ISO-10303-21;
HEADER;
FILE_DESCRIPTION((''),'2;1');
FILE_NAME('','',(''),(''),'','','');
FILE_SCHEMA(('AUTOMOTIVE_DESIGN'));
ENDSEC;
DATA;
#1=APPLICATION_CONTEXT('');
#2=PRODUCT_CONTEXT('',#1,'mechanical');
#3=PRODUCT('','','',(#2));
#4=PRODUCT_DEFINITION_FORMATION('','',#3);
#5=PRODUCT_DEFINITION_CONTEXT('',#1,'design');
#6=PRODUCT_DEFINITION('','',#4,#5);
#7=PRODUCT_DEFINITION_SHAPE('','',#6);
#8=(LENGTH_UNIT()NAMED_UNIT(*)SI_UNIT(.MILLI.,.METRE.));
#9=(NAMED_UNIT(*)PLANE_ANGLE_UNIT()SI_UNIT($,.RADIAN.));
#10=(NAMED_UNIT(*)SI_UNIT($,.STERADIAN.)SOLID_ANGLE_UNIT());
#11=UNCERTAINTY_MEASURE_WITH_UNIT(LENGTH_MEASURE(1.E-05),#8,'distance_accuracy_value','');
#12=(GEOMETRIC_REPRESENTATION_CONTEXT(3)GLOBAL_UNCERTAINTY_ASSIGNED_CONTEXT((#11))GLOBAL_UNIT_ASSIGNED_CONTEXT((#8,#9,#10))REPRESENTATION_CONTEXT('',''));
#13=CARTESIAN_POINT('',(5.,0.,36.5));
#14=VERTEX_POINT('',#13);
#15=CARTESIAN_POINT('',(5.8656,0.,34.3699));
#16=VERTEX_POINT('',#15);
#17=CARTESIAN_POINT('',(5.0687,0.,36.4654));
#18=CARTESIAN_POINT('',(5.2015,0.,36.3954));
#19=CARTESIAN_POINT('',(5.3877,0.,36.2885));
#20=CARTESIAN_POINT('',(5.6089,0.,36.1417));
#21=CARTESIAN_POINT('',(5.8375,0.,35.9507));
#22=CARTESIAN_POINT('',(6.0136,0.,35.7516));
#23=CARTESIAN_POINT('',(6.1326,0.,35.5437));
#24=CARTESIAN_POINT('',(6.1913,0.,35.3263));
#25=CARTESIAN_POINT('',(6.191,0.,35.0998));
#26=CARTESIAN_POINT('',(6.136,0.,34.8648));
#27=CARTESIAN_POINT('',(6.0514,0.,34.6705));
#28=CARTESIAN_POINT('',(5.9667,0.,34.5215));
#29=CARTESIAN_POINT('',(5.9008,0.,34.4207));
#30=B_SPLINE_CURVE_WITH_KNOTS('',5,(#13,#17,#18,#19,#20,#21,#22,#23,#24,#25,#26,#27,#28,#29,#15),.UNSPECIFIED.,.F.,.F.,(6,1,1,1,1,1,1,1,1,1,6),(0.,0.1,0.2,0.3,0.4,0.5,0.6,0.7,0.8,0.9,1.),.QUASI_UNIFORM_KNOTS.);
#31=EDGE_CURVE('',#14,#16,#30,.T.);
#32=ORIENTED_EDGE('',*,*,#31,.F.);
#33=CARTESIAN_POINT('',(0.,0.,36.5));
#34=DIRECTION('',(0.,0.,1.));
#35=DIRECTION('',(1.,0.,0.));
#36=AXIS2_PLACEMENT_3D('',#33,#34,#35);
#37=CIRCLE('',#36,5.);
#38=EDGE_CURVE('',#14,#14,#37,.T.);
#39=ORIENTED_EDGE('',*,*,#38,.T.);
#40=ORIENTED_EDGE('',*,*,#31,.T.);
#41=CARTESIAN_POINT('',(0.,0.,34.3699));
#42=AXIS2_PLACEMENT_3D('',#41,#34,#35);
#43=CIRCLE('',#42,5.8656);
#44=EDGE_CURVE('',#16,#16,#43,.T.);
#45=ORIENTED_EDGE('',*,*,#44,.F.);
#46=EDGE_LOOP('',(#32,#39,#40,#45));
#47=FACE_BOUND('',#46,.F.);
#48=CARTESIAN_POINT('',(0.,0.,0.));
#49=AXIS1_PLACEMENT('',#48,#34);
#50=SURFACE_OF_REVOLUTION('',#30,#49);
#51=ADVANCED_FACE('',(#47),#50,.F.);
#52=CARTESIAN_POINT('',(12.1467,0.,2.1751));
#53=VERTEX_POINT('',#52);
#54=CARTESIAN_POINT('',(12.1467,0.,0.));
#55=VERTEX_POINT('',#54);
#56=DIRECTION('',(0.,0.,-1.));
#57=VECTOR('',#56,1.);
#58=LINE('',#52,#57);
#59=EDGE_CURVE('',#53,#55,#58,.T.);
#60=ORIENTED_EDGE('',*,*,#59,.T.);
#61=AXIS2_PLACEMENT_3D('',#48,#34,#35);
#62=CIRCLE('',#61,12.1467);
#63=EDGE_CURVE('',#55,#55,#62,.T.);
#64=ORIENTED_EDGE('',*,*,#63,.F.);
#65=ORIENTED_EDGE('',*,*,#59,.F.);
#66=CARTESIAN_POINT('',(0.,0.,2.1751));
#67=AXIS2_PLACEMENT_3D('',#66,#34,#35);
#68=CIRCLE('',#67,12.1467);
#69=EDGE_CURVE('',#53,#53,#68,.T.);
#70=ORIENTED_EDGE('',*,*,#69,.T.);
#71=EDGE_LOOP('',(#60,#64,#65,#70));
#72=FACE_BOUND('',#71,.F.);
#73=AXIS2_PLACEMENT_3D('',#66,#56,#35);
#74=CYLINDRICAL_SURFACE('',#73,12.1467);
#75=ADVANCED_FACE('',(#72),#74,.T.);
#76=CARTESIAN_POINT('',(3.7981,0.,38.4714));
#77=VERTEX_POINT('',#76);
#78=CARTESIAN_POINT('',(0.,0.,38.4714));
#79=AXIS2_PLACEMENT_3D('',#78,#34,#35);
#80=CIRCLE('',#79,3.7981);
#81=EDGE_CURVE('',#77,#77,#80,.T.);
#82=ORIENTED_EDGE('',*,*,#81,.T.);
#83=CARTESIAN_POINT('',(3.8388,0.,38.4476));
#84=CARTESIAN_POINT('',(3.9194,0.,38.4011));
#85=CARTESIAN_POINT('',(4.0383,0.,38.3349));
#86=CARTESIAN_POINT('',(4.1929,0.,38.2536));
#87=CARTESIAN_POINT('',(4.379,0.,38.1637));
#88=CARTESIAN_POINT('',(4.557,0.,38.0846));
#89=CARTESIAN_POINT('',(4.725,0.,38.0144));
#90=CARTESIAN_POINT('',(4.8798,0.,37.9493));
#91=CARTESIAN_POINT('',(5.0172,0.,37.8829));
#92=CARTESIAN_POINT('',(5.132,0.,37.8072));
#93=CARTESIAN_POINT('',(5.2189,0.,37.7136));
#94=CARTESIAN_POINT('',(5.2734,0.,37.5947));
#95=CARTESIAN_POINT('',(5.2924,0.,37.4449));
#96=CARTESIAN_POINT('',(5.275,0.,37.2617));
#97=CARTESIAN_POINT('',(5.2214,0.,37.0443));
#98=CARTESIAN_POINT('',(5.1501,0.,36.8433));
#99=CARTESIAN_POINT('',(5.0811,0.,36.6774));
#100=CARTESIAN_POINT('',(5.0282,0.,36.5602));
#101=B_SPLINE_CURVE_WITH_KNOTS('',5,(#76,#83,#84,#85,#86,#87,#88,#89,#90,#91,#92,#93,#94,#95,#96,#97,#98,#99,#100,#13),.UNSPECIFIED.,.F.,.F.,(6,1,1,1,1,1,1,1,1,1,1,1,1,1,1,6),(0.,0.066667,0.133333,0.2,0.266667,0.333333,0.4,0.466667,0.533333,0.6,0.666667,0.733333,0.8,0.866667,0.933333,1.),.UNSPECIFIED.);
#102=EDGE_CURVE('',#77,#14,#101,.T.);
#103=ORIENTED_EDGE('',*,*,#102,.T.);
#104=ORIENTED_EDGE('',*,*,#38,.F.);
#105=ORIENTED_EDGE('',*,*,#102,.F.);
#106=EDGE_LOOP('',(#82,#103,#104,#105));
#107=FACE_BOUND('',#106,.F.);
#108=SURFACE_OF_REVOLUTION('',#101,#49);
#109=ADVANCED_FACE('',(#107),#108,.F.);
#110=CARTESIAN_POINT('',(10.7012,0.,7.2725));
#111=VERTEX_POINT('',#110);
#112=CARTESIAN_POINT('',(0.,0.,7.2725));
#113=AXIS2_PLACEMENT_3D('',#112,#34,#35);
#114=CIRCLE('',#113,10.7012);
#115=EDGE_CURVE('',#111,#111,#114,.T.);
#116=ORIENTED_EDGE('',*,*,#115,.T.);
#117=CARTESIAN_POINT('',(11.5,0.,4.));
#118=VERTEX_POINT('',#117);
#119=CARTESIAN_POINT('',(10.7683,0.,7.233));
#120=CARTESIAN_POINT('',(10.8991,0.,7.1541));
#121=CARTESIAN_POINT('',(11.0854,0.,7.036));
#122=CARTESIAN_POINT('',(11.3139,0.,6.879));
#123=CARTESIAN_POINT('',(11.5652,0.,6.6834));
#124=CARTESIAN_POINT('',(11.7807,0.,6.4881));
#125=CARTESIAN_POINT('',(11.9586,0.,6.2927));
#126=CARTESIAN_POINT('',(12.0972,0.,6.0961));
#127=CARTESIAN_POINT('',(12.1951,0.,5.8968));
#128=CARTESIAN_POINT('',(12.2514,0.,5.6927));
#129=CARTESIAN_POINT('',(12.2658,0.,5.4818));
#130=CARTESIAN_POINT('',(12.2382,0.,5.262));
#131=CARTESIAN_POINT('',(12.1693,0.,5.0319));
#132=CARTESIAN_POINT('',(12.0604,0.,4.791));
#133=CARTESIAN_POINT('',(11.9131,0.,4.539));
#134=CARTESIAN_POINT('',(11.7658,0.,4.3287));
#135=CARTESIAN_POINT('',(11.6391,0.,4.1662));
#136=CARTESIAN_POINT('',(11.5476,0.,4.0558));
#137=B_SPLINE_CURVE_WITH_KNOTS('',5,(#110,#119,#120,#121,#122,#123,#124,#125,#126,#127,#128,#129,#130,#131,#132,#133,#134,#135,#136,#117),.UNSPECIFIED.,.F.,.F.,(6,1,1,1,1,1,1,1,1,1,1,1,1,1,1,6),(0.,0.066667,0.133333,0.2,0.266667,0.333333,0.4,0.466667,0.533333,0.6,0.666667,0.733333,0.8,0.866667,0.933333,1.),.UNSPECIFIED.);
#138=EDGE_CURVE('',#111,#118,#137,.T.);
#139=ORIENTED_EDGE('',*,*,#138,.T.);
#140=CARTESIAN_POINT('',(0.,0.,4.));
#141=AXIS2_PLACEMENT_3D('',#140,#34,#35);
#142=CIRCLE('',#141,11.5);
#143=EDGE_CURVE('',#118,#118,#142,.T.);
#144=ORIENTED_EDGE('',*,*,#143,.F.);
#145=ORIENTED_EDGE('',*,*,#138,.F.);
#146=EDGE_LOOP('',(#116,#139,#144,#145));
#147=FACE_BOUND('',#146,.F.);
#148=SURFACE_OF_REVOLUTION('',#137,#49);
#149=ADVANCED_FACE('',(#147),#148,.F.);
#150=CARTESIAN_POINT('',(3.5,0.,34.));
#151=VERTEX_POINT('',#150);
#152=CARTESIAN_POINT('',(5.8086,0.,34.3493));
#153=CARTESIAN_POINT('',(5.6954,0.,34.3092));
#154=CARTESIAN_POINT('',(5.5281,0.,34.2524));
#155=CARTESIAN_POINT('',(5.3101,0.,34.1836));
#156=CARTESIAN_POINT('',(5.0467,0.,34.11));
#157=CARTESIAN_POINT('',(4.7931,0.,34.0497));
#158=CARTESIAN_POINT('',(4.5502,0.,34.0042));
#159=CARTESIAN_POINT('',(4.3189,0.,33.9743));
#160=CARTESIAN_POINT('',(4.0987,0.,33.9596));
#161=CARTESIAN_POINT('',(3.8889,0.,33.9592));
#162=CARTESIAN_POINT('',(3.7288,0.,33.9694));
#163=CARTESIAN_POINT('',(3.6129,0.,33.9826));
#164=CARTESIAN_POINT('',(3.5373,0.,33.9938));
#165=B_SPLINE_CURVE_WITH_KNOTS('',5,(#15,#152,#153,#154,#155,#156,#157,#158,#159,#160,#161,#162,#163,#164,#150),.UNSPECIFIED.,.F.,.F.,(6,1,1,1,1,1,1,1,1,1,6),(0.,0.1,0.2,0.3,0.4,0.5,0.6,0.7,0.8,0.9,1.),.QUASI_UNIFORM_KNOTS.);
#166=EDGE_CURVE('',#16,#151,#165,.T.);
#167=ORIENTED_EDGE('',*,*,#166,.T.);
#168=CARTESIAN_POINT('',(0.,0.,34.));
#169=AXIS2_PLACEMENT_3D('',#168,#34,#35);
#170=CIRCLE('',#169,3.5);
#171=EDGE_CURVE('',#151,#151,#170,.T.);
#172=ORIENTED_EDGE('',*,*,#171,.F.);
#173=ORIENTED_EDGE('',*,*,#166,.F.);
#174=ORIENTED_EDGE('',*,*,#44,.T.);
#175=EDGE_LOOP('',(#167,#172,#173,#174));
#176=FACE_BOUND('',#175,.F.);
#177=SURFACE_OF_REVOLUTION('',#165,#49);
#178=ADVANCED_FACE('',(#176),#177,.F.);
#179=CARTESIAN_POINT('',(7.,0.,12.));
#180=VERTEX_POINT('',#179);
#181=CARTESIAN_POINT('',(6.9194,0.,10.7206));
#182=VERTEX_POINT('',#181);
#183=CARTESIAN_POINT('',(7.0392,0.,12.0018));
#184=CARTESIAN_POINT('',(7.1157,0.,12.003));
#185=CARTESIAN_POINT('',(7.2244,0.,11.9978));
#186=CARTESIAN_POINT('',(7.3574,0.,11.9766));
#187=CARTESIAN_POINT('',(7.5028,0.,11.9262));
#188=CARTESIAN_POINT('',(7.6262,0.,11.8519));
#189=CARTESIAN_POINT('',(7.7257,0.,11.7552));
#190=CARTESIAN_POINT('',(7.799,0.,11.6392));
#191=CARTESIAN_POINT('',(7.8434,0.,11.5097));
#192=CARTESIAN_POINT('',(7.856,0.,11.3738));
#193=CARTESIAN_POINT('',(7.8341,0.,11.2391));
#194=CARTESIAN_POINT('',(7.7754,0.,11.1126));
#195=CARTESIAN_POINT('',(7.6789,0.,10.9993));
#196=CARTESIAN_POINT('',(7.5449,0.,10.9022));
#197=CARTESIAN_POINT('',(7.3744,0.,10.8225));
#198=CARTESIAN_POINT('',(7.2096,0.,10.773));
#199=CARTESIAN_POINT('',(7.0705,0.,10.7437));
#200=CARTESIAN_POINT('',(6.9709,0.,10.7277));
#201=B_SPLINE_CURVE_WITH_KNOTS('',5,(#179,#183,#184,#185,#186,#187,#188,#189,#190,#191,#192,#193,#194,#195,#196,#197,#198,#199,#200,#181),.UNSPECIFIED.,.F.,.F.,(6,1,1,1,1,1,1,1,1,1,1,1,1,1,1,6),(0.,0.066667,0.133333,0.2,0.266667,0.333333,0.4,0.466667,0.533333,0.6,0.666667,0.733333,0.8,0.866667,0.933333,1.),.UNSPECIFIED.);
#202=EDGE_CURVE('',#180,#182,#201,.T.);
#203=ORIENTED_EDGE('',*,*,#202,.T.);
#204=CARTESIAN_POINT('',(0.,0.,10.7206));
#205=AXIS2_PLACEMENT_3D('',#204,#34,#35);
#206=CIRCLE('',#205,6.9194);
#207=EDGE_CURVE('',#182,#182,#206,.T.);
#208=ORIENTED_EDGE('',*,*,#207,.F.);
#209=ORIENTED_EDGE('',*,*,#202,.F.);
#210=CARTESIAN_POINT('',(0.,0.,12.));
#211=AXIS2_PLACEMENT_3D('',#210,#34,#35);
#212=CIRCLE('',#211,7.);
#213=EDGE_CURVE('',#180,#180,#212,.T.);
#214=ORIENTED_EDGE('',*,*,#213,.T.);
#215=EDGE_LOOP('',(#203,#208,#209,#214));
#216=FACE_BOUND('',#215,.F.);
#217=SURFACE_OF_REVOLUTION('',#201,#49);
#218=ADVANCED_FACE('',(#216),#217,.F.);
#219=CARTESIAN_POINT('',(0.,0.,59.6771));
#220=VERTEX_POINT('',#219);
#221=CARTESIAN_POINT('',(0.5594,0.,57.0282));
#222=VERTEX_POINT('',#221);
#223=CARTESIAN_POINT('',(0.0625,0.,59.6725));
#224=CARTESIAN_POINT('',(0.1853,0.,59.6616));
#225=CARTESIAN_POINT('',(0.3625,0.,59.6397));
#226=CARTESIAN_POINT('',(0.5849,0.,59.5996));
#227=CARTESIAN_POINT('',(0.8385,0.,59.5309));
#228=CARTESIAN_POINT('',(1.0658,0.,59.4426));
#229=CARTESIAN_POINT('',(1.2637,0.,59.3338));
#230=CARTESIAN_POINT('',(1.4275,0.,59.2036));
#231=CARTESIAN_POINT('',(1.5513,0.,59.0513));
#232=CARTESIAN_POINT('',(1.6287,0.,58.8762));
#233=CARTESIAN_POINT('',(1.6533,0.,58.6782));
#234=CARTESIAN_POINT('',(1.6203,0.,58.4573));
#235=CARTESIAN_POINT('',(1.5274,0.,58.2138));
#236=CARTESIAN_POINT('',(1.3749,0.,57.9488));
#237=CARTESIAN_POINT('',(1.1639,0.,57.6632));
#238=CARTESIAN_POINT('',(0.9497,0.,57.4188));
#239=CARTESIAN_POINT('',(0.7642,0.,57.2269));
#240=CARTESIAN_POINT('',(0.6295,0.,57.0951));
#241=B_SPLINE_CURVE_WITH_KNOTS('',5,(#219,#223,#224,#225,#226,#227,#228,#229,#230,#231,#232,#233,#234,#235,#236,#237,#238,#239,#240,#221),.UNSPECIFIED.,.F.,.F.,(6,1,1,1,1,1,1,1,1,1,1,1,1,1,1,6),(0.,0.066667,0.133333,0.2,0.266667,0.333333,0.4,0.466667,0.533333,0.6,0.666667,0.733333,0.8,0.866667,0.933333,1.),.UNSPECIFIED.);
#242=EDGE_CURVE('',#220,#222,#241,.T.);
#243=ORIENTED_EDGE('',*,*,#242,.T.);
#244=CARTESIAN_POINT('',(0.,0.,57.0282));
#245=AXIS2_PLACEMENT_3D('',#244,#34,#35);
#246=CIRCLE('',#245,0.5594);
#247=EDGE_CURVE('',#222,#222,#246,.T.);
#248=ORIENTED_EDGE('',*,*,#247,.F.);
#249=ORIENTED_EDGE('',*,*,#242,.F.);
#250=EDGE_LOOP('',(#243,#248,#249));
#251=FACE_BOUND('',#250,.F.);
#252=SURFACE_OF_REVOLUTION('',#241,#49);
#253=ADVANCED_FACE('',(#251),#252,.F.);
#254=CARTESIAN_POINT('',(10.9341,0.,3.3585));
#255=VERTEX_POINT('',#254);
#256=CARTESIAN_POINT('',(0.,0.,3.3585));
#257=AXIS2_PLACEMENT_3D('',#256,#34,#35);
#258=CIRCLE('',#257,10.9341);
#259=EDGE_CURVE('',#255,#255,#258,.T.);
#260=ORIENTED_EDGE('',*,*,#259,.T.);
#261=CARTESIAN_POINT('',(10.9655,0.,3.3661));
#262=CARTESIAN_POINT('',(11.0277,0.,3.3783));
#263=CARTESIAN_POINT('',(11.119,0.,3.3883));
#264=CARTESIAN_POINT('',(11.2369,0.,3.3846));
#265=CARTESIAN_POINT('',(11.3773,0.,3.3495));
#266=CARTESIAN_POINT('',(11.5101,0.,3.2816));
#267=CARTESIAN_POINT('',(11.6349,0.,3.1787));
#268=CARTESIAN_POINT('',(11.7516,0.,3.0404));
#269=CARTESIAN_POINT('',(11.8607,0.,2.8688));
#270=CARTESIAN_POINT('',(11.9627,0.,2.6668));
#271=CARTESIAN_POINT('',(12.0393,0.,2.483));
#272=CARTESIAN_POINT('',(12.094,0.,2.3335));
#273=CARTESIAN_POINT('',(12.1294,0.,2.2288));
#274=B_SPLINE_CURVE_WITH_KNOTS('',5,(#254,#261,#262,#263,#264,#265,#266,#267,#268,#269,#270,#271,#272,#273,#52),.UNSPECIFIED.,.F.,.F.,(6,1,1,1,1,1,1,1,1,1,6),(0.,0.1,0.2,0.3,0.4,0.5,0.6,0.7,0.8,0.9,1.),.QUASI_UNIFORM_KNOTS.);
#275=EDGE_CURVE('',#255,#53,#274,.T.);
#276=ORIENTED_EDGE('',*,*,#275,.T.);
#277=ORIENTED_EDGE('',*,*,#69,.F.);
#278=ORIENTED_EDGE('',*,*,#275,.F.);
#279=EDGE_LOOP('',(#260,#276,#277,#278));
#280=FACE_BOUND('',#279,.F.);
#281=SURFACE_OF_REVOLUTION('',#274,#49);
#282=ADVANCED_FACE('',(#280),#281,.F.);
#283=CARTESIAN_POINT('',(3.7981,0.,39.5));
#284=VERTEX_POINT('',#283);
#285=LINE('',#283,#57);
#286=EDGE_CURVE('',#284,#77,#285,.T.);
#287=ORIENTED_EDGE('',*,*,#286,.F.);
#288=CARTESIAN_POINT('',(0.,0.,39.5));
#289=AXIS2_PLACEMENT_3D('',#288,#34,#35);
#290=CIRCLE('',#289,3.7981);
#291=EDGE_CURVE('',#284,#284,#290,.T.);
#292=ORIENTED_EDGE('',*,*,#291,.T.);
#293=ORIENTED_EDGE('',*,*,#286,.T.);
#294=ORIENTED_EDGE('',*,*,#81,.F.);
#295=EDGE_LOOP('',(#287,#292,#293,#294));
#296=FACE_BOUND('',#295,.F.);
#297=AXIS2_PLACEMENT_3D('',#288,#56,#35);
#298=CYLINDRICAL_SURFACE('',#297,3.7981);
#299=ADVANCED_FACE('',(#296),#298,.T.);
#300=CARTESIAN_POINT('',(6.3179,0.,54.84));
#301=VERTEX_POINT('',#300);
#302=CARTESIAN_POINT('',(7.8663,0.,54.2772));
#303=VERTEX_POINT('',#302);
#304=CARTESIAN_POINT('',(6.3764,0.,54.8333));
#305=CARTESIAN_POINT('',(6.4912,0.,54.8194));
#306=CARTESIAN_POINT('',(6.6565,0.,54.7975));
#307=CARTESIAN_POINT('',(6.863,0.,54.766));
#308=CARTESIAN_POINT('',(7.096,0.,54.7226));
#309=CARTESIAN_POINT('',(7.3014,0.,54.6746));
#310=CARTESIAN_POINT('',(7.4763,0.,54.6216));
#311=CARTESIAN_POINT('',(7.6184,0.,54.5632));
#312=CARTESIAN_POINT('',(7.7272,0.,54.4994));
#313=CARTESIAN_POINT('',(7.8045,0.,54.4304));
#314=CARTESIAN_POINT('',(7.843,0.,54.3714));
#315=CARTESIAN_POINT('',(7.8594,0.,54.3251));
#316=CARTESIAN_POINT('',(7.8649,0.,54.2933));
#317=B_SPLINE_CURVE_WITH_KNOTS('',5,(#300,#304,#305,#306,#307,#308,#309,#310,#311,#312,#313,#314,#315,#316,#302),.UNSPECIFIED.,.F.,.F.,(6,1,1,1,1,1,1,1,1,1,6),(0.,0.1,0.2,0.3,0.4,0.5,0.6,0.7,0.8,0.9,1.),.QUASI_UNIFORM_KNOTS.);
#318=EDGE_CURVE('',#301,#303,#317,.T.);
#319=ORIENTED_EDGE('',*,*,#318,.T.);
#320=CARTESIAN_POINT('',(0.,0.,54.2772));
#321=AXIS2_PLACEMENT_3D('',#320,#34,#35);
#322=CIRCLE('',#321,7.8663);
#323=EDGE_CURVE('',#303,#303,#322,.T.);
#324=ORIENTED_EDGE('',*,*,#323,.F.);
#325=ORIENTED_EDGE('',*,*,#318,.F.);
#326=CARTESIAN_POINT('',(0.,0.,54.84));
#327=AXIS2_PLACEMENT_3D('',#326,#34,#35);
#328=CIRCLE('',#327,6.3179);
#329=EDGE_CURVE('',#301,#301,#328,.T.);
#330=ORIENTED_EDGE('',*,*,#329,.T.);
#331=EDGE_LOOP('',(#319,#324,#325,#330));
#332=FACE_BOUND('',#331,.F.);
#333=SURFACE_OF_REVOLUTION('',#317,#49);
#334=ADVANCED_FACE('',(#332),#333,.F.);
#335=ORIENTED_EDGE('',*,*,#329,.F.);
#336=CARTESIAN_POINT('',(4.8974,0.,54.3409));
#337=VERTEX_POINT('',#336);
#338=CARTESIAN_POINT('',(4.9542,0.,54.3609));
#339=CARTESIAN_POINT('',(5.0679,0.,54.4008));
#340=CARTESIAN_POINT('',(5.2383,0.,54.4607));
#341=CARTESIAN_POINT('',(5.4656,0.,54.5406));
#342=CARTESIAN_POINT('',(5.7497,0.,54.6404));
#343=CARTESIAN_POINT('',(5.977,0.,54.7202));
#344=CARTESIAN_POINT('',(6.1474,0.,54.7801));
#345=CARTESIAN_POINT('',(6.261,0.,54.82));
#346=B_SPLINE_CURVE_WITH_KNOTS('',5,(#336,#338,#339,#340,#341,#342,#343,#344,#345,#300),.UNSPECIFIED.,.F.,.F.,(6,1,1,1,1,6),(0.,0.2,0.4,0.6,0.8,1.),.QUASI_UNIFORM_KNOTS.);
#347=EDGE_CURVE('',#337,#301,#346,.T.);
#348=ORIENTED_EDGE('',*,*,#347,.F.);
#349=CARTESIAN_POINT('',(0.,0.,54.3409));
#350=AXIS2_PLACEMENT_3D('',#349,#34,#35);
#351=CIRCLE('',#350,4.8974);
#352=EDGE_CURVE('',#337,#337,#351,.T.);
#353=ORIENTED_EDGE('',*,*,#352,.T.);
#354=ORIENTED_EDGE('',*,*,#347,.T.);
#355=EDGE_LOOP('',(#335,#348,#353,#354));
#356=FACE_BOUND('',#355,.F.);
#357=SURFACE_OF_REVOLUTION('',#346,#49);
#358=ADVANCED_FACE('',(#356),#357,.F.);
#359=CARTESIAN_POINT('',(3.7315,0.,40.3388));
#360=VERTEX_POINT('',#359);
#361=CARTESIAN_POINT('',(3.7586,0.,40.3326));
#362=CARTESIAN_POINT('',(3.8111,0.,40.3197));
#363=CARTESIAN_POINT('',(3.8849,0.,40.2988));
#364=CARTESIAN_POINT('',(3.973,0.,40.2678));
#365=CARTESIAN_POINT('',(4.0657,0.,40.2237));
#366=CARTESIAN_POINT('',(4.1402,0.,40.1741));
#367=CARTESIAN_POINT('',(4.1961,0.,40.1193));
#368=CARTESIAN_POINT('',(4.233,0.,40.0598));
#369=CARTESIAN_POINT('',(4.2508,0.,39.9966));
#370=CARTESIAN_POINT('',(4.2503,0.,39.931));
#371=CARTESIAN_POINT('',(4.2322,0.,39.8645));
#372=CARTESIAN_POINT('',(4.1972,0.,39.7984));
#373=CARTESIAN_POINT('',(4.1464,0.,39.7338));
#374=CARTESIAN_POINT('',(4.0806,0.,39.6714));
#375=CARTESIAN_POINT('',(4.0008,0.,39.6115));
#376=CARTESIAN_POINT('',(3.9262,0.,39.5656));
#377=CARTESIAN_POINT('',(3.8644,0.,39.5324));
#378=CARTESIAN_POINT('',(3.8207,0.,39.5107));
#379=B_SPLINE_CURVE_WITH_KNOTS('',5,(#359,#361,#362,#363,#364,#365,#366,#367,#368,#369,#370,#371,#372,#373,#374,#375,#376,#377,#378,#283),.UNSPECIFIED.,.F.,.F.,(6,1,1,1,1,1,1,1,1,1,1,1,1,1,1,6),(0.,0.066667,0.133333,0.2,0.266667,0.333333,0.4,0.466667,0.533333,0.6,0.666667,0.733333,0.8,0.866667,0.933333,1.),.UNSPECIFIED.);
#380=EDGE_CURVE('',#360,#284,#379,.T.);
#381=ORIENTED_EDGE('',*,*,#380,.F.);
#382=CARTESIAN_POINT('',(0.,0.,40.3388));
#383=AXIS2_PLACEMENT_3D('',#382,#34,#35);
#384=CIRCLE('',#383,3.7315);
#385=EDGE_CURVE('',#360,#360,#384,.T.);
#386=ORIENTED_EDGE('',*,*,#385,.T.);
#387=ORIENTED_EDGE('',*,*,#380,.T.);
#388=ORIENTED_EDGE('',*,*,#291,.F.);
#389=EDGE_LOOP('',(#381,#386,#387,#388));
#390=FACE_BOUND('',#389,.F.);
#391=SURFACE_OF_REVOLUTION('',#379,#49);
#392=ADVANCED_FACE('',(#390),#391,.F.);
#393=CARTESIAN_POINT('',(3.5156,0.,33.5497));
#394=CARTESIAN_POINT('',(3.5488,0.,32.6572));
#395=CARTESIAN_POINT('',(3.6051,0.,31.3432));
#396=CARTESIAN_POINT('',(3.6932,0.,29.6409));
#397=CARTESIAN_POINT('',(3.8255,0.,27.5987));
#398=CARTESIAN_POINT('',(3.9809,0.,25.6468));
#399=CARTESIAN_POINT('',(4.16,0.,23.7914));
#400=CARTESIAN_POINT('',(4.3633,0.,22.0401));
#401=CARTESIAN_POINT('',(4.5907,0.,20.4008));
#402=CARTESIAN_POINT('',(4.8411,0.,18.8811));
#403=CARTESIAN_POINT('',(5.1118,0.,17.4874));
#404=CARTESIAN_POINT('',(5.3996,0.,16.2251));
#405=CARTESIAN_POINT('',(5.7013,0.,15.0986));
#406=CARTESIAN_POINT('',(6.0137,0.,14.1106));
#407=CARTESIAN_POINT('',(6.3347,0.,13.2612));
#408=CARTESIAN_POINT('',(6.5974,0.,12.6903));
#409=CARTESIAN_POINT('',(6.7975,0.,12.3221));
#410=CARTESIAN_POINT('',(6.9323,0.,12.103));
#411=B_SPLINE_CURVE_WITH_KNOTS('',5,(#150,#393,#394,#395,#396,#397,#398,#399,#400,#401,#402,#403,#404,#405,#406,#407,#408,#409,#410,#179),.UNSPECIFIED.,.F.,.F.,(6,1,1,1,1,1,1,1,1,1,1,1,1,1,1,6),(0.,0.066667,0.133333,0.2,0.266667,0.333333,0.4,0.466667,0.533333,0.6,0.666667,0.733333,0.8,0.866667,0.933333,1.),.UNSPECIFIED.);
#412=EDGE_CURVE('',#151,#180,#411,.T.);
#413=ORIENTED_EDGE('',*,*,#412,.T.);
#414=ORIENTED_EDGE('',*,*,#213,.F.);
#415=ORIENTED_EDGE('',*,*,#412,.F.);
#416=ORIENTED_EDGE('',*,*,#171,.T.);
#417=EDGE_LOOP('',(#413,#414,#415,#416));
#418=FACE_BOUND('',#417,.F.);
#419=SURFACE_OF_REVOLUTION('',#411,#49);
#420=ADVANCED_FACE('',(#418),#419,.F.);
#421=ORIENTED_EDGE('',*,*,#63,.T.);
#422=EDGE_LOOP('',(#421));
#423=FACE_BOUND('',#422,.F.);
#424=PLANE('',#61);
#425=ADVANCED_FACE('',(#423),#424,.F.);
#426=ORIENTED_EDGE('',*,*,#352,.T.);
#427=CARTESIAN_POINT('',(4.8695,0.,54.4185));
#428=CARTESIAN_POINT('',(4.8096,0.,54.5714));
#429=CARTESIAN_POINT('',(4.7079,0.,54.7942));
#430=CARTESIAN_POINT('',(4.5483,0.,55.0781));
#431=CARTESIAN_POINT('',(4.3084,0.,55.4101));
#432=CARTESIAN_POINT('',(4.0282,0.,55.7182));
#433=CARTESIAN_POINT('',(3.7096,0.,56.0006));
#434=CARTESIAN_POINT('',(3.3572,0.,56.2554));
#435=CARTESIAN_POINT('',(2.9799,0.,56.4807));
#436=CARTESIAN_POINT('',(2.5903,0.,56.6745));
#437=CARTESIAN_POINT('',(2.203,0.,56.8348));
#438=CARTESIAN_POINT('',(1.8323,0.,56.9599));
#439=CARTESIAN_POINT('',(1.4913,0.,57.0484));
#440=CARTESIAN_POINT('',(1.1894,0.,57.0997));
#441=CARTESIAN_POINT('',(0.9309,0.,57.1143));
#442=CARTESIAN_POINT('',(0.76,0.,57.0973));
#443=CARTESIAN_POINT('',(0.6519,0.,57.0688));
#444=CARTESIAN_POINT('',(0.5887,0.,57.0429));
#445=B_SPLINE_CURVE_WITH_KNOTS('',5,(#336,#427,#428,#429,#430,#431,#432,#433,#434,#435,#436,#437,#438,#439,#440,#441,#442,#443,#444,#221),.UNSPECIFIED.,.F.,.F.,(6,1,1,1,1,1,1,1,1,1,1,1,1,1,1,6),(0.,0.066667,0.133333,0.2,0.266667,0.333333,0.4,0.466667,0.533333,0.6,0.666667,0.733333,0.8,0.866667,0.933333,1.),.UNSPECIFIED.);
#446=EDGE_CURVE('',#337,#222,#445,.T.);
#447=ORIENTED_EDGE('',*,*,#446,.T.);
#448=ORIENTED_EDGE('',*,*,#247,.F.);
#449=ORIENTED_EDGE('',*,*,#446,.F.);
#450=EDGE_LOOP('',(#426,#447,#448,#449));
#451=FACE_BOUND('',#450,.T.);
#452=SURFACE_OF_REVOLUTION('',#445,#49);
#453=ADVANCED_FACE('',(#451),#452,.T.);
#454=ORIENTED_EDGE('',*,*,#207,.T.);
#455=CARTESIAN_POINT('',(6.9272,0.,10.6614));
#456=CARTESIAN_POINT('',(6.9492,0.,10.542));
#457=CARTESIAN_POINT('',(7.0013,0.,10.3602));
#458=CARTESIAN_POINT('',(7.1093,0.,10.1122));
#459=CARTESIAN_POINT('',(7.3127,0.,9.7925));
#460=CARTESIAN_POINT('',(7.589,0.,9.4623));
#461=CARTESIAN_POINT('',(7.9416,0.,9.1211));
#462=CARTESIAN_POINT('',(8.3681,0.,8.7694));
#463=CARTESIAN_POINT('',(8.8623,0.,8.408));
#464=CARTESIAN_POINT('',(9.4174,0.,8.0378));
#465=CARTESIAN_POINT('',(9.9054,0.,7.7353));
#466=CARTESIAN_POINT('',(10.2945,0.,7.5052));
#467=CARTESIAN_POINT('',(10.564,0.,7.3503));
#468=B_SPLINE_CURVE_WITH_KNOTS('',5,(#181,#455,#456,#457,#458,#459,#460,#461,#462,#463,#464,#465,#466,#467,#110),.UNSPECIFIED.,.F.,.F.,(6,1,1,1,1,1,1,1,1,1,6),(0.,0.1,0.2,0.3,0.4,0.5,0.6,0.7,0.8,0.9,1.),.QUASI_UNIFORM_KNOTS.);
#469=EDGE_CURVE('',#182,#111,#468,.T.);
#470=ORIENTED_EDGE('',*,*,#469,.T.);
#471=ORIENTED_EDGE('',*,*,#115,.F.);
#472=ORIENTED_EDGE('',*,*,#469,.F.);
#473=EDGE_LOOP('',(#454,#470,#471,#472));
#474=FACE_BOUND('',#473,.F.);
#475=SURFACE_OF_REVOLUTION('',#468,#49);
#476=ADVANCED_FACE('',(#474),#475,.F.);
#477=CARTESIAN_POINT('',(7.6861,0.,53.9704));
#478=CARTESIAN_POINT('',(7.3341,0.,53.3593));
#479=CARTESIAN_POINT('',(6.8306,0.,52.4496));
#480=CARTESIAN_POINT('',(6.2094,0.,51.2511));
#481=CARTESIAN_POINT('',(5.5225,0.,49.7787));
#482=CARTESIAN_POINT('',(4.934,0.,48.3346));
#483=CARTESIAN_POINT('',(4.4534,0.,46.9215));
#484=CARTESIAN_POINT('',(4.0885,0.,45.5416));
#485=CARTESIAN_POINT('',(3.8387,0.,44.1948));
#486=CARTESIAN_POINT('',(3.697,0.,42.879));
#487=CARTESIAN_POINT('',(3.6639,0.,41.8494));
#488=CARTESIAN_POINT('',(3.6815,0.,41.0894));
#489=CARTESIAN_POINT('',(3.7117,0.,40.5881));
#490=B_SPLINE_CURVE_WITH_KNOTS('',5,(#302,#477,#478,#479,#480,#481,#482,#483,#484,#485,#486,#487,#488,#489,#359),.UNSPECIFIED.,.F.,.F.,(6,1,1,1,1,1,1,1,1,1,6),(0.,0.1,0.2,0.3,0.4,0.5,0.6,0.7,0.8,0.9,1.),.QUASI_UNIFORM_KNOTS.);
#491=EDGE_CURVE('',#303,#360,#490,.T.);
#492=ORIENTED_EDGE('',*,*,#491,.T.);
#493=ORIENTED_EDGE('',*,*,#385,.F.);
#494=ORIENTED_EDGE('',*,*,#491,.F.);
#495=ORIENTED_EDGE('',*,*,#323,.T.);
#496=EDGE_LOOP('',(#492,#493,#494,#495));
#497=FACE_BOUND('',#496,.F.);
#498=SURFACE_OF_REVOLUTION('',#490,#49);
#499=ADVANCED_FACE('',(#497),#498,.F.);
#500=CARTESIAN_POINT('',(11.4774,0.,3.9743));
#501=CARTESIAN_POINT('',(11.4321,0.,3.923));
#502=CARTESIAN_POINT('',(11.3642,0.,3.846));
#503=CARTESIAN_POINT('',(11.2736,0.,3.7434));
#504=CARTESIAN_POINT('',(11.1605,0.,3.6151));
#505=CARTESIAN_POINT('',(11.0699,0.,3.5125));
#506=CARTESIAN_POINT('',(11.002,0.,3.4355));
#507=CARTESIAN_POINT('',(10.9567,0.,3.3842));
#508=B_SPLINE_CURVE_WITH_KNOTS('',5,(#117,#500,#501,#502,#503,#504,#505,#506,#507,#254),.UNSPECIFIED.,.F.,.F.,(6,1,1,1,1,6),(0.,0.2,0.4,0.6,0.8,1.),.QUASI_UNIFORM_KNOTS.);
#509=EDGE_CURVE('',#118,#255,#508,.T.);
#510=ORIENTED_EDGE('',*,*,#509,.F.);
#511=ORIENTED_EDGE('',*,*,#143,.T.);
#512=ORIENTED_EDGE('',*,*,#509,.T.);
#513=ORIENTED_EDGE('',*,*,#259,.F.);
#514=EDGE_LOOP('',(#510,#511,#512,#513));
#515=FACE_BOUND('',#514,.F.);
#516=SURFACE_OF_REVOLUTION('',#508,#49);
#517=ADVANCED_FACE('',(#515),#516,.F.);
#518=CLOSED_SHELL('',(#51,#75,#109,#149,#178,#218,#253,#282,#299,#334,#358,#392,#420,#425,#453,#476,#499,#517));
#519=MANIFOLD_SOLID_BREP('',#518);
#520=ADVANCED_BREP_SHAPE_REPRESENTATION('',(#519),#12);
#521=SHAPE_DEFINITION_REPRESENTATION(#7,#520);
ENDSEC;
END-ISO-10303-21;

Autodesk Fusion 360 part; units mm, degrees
sketch "Sketch1" plane through (0, 0, 0) normal (0, 1, 0) x (1, 0, 0)
  spline S0 degree 5 poles (0, -59.6771) (0.0625, -59.6725) (0.1853, -59.6616) (0.3625, -59.6397) (0.5849, -59.5996) (0.8385, -59.5309) (1.0658, -59.4426) (1.2637, -59.3338) (1.4275, -59.2036) (1.5513, -59.0513) (1.6287, -58.8762) (1.6533, -58.6782) (1.6203, -58.4573) (1.5274, -58.2138) (1.3749, -57.9488) (1.1639, -57.6632) (0.9497, -57.4188) (0.7642, -57.2269) (0.6295, -57.0951) (0.5594, -57.0282) knots 0 0 0 0 0 0 0.066667 0.133333 0.2 0.266667 0.333333 0.4 0.466667 0.533333 0.6 0.666667 0.733333 0.8 0.866667 0.933333 1 1 1 1 1 1
  spline S1 degree 5 poles (4.8974, -54.3409) (4.8695, -54.4185) (4.8096, -54.5714) (4.7079, -54.7942) (4.5483, -55.0781) (4.3084, -55.4101) (4.0282, -55.7182) (3.7096, -56.0006) (3.3572, -56.2554) (2.9799, -56.4807) (2.5903, -56.6745) (2.203, -56.8348) (1.8323, -56.9599) (1.4913, -57.0484) (1.1894, -57.0997) (0.9309, -57.1143) (0.76, -57.0973) (0.6519, -57.0688) (0.5887, -57.0429) (0.5594, -57.0282) knots 0 0 0 0 0 0 0.066667 0.133333 0.2 0.266667 0.333333 0.4 0.466667 0.533333 0.6 0.666667 0.733333 0.8 0.866667 0.933333 1 1 1 1 1 1
  spline S2 degree 5 poles (4.8974, -54.3409) (4.9542, -54.3609) (5.0679, -54.4008) (5.2383, -54.4607) (5.4656, -54.5406) (5.7497, -54.6404) (5.977, -54.7202) (6.1474, -54.7801) (6.261, -54.82) (6.3179, -54.84) knots 0 0 0 0 0 0 0.2 0.4 0.6 0.8 1 1 1 1 1 1
  spline S3 degree 5 poles (6.3179, -54.84) (6.3764, -54.8333) (6.4912, -54.8194) (6.6565, -54.7975) (6.863, -54.766) (7.096, -54.7226) (7.3014, -54.6746) (7.4763, -54.6216) (7.6184, -54.5632) (7.7272, -54.4994) (7.8045, -54.4304) (7.843, -54.3714) (7.8594, -54.3251) (7.8649, -54.2933) (7.8663, -54.2772) knots 0 0 0 0 0 0 0.1 0.2 0.3 0.4 0.5 0.6 0.7 0.8 0.9 1 1 1 1 1 1
  spline S4 degree 5 poles (7.8663, -54.2772) (7.6861, -53.9704) (7.3341, -53.3593) (6.8306, -52.4496) (6.2094, -51.2511) (5.5225, -49.7787) (4.934, -48.3346) (4.4534, -46.9215) (4.0885, -45.5416) (3.8387, -44.1948) (3.697, -42.879) (3.6639, -41.8494) (3.6815, -41.0894) (3.7117, -40.5881) (3.7315, -40.3388) knots 0 0 0 0 0 0 0.1 0.2 0.3 0.4 0.5 0.6 0.7 0.8 0.9 1 1 1 1 1 1
  spline S5 degree 5 poles (3.7315, -40.3388) (3.7586, -40.3326) (3.8111, -40.3197) (3.8849, -40.2988) (3.973, -40.2678) (4.0657, -40.2237) (4.1402, -40.1741) (4.1961, -40.1193) (4.233, -40.0598) (4.2508, -39.9966) (4.2503, -39.931) (4.2322, -39.8645) (4.1972, -39.7984) (4.1464, -39.7338) (4.0806, -39.6714) (4.0008, -39.6115) (3.9262, -39.5656) (3.8644, -39.5324) (3.8207, -39.5107) (3.7981, -39.5) knots 0 0 0 0 0 0 0.066667 0.133333 0.2 0.266667 0.333333 0.4 0.466667 0.533333 0.6 0.666667 0.733333 0.8 0.866667 0.933333 1 1 1 1 1 1
  line L0 (3.7981, -39.5) -> (3.7981, -38.4714)
  spline S6 degree 5 poles (3.7981, -38.4714) (3.8388, -38.4476) (3.9194, -38.4011) (4.0383, -38.3349) (4.1929, -38.2536) (4.379, -38.1637) (4.557, -38.0846) (4.725, -38.0144) (4.8798, -37.9493) (5.0172, -37.8829) (5.132, -37.8072) (5.2189, -37.7136) (5.2734, -37.5947) (5.2924, -37.4449) (5.275, -37.2617) (5.2214, -37.0443) (5.1501, -36.8433) (5.0811, -36.6774) (5.0282, -36.5602) (5, -36.5) knots 0 0 0 0 0 0 0.066667 0.133333 0.2 0.266667 0.333333 0.4 0.466667 0.533333 0.6 0.666667 0.733333 0.8 0.866667 0.933333 1 1 1 1 1 1
  spline S7 degree 5 poles (5, -36.5) (5.0687, -36.4654) (5.2015, -36.3954) (5.3877, -36.2885) (5.6089, -36.1417) (5.8375, -35.9507) (6.0136, -35.7516) (6.1326, -35.5437) (6.1913, -35.3263) (6.191, -35.0998) (6.136, -34.8648) (6.0514, -34.6705) (5.9667, -34.5215) (5.9008, -34.4207) (5.8656, -34.3699) knots 0 0 0 0 0 0 0.1 0.2 0.3 0.4 0.5 0.6 0.7 0.8 0.9 1 1 1 1 1 1
  spline S8 degree 5 poles (5.8656, -34.3699) (5.8086, -34.3493) (5.6954, -34.3092) (5.5281, -34.2524) (5.3101, -34.1836) (5.0467, -34.11) (4.7931, -34.0497) (4.5502, -34.0042) (4.3189, -33.9743) (4.0987, -33.9596) (3.8889, -33.9592) (3.7288, -33.9694) (3.6129, -33.9826) (3.5373, -33.9938) (3.5, -34) knots 0 0 0 0 0 0 0.1 0.2 0.3 0.4 0.5 0.6 0.7 0.8 0.9 1 1 1 1 1 1
  spline S9 degree 5 poles (3.5, -34) (3.5156, -33.5497) (3.5488, -32.6572) (3.6051, -31.3432) (3.6932, -29.6409) (3.8255, -27.5987) (3.9809, -25.6468) (4.16, -23.7914) (4.3633, -22.0401) (4.5907, -20.4008) (4.8411, -18.8811) (5.1118, -17.4874) (5.3996, -16.2251) (5.7013, -15.0986) (6.0137, -14.1106) (6.3347, -13.2612) (6.5974, -12.6903) (6.7975, -12.3221) (6.9323, -12.103) (7, -12) knots 0 0 0 0 0 0 0.066667 0.133333 0.2 0.266667 0.333333 0.4 0.466667 0.533333 0.6 0.666667 0.733333 0.8 0.866667 0.933333 1 1 1 1 1 1
  spline S10 degree 5 poles (7, -12) (7.0392, -12.0018) (7.1157, -12.003) (7.2244, -11.9978) (7.3574, -11.9766) (7.5028, -11.9262) (7.6262, -11.8519) (7.7257, -11.7552) (7.799, -11.6392) (7.8434, -11.5097) (7.856, -11.3738) (7.8341, -11.2391) (7.7754, -11.1126) (7.6789, -10.9993) (7.5449, -10.9022) (7.3744, -10.8225) (7.2096, -10.773) (7.0705, -10.7437) (6.9709, -10.7277) (6.9194, -10.7206) knots 0 0 0 0 0 0 0.066667 0.133333 0.2 0.266667 0.333333 0.4 0.466667 0.533333 0.6 0.666667 0.733333 0.8 0.866667 0.933333 1 1 1 1 1 1
  spline S11 degree 5 poles (6.9194, -10.7206) (6.9272, -10.6614) (6.9492, -10.542) (7.0013, -10.3602) (7.1093, -10.1122) (7.3127, -9.7925) (7.589, -9.4623) (7.9416, -9.1211) (8.3681, -8.7694) (8.8623, -8.408) (9.4174, -8.0378) (9.9054, -7.7353) (10.2945, -7.5052) (10.564, -7.3503) (10.7012, -7.2725) knots 0 0 0 0 0 0 0.1 0.2 0.3 0.4 0.5 0.6 0.7 0.8 0.9 1 1 1 1 1 1
  spline S12 degree 5 poles (10.7012, -7.2725) (10.7683, -7.233) (10.8991, -7.1541) (11.0854, -7.036) (11.3139, -6.879) (11.5652, -6.6834) (11.7807, -6.4881) (11.9586, -6.2927) (12.0972, -6.0961) (12.1951, -5.8968) (12.2514, -5.6927) (12.2658, -5.4818) (12.2382, -5.262) (12.1693, -5.0319) (12.0604, -4.791) (11.9131, -4.539) (11.7658, -4.3287) (11.6391, -4.1662) (11.5476, -4.0558) (11.5, -4) knots 0 0 0 0 0 0 0.066667 0.133333 0.2 0.266667 0.333333 0.4 0.466667 0.533333 0.6 0.666667 0.733333 0.8 0.866667 0.933333 1 1 1 1 1 1
  spline S13 degree 5 poles (11.5, -4) (11.4774, -3.9743) (11.4321, -3.923) (11.3642, -3.846) (11.2736, -3.7434) (11.1605, -3.6151) (11.0699, -3.5125) (11.002, -3.4355) (10.9567, -3.3842) (10.9341, -3.3585) knots 0 0 0 0 0 0 0.2 0.4 0.6 0.8 1 1 1 1 1 1
  spline S14 degree 5 poles (10.9341, -3.3585) (10.9655, -3.3661) (11.0277, -3.3783) (11.119, -3.3883) (11.2369, -3.3846) (11.3773, -3.3495) (11.5101, -3.2816) (11.6349, -3.1787) (11.7516, -3.0404) (11.8607, -2.8688) (11.9627, -2.6668) (12.0393, -2.483) (12.094, -2.3335) (12.1294, -2.2288) (12.1467, -2.1751) knots 0 0 0 0 0 0 0.1 0.2 0.3 0.4 0.5 0.6 0.7 0.8 0.9 1 1 1 1 1 1
  line L1 (12.1467, -2.1751) -> (12.1467, 0)
  line L2 (12.1467, 0) -> (0, 0)
  line L3 (0, 0) -> (0, -59.6771)
  point P0 (1.2504, -59.3316)
  point P1 (1.6343, -58.6022)
  point P2 (3.5538, -56.1069)
  point P3 (1.5495, -57.0282)
  point P4 (7.5463, -54.5905)
  point P5 (4.3317, -46.4076)
  point P6 (4.199, -40.1084)
  point P7 (4.199, -39.8077)
  point P8 (4.7502, -38.0036)
  point P9 (5.2514, -37.6278)
  point P10 (6.1323, -35.5036)
  point P11 (4.5, -34)
  point P12 (4.544, -20.7845)
  point P13 (5.8989, -14.4959)
  point P14 (7.7169, -11.7532)
  point P15 (7.7887, -11.1545)
  point P16 (7.6988, -9.3654)
  point P17 (12.0031, -6.2219)
  point P18 (12.2346, -5.2926)
  point P19 (11.596, -3.2048)
revolve "Revolve1" add sketch "Sketch1" angle 360 about axis through (0, 0, 0) along (0, 0, 1)
